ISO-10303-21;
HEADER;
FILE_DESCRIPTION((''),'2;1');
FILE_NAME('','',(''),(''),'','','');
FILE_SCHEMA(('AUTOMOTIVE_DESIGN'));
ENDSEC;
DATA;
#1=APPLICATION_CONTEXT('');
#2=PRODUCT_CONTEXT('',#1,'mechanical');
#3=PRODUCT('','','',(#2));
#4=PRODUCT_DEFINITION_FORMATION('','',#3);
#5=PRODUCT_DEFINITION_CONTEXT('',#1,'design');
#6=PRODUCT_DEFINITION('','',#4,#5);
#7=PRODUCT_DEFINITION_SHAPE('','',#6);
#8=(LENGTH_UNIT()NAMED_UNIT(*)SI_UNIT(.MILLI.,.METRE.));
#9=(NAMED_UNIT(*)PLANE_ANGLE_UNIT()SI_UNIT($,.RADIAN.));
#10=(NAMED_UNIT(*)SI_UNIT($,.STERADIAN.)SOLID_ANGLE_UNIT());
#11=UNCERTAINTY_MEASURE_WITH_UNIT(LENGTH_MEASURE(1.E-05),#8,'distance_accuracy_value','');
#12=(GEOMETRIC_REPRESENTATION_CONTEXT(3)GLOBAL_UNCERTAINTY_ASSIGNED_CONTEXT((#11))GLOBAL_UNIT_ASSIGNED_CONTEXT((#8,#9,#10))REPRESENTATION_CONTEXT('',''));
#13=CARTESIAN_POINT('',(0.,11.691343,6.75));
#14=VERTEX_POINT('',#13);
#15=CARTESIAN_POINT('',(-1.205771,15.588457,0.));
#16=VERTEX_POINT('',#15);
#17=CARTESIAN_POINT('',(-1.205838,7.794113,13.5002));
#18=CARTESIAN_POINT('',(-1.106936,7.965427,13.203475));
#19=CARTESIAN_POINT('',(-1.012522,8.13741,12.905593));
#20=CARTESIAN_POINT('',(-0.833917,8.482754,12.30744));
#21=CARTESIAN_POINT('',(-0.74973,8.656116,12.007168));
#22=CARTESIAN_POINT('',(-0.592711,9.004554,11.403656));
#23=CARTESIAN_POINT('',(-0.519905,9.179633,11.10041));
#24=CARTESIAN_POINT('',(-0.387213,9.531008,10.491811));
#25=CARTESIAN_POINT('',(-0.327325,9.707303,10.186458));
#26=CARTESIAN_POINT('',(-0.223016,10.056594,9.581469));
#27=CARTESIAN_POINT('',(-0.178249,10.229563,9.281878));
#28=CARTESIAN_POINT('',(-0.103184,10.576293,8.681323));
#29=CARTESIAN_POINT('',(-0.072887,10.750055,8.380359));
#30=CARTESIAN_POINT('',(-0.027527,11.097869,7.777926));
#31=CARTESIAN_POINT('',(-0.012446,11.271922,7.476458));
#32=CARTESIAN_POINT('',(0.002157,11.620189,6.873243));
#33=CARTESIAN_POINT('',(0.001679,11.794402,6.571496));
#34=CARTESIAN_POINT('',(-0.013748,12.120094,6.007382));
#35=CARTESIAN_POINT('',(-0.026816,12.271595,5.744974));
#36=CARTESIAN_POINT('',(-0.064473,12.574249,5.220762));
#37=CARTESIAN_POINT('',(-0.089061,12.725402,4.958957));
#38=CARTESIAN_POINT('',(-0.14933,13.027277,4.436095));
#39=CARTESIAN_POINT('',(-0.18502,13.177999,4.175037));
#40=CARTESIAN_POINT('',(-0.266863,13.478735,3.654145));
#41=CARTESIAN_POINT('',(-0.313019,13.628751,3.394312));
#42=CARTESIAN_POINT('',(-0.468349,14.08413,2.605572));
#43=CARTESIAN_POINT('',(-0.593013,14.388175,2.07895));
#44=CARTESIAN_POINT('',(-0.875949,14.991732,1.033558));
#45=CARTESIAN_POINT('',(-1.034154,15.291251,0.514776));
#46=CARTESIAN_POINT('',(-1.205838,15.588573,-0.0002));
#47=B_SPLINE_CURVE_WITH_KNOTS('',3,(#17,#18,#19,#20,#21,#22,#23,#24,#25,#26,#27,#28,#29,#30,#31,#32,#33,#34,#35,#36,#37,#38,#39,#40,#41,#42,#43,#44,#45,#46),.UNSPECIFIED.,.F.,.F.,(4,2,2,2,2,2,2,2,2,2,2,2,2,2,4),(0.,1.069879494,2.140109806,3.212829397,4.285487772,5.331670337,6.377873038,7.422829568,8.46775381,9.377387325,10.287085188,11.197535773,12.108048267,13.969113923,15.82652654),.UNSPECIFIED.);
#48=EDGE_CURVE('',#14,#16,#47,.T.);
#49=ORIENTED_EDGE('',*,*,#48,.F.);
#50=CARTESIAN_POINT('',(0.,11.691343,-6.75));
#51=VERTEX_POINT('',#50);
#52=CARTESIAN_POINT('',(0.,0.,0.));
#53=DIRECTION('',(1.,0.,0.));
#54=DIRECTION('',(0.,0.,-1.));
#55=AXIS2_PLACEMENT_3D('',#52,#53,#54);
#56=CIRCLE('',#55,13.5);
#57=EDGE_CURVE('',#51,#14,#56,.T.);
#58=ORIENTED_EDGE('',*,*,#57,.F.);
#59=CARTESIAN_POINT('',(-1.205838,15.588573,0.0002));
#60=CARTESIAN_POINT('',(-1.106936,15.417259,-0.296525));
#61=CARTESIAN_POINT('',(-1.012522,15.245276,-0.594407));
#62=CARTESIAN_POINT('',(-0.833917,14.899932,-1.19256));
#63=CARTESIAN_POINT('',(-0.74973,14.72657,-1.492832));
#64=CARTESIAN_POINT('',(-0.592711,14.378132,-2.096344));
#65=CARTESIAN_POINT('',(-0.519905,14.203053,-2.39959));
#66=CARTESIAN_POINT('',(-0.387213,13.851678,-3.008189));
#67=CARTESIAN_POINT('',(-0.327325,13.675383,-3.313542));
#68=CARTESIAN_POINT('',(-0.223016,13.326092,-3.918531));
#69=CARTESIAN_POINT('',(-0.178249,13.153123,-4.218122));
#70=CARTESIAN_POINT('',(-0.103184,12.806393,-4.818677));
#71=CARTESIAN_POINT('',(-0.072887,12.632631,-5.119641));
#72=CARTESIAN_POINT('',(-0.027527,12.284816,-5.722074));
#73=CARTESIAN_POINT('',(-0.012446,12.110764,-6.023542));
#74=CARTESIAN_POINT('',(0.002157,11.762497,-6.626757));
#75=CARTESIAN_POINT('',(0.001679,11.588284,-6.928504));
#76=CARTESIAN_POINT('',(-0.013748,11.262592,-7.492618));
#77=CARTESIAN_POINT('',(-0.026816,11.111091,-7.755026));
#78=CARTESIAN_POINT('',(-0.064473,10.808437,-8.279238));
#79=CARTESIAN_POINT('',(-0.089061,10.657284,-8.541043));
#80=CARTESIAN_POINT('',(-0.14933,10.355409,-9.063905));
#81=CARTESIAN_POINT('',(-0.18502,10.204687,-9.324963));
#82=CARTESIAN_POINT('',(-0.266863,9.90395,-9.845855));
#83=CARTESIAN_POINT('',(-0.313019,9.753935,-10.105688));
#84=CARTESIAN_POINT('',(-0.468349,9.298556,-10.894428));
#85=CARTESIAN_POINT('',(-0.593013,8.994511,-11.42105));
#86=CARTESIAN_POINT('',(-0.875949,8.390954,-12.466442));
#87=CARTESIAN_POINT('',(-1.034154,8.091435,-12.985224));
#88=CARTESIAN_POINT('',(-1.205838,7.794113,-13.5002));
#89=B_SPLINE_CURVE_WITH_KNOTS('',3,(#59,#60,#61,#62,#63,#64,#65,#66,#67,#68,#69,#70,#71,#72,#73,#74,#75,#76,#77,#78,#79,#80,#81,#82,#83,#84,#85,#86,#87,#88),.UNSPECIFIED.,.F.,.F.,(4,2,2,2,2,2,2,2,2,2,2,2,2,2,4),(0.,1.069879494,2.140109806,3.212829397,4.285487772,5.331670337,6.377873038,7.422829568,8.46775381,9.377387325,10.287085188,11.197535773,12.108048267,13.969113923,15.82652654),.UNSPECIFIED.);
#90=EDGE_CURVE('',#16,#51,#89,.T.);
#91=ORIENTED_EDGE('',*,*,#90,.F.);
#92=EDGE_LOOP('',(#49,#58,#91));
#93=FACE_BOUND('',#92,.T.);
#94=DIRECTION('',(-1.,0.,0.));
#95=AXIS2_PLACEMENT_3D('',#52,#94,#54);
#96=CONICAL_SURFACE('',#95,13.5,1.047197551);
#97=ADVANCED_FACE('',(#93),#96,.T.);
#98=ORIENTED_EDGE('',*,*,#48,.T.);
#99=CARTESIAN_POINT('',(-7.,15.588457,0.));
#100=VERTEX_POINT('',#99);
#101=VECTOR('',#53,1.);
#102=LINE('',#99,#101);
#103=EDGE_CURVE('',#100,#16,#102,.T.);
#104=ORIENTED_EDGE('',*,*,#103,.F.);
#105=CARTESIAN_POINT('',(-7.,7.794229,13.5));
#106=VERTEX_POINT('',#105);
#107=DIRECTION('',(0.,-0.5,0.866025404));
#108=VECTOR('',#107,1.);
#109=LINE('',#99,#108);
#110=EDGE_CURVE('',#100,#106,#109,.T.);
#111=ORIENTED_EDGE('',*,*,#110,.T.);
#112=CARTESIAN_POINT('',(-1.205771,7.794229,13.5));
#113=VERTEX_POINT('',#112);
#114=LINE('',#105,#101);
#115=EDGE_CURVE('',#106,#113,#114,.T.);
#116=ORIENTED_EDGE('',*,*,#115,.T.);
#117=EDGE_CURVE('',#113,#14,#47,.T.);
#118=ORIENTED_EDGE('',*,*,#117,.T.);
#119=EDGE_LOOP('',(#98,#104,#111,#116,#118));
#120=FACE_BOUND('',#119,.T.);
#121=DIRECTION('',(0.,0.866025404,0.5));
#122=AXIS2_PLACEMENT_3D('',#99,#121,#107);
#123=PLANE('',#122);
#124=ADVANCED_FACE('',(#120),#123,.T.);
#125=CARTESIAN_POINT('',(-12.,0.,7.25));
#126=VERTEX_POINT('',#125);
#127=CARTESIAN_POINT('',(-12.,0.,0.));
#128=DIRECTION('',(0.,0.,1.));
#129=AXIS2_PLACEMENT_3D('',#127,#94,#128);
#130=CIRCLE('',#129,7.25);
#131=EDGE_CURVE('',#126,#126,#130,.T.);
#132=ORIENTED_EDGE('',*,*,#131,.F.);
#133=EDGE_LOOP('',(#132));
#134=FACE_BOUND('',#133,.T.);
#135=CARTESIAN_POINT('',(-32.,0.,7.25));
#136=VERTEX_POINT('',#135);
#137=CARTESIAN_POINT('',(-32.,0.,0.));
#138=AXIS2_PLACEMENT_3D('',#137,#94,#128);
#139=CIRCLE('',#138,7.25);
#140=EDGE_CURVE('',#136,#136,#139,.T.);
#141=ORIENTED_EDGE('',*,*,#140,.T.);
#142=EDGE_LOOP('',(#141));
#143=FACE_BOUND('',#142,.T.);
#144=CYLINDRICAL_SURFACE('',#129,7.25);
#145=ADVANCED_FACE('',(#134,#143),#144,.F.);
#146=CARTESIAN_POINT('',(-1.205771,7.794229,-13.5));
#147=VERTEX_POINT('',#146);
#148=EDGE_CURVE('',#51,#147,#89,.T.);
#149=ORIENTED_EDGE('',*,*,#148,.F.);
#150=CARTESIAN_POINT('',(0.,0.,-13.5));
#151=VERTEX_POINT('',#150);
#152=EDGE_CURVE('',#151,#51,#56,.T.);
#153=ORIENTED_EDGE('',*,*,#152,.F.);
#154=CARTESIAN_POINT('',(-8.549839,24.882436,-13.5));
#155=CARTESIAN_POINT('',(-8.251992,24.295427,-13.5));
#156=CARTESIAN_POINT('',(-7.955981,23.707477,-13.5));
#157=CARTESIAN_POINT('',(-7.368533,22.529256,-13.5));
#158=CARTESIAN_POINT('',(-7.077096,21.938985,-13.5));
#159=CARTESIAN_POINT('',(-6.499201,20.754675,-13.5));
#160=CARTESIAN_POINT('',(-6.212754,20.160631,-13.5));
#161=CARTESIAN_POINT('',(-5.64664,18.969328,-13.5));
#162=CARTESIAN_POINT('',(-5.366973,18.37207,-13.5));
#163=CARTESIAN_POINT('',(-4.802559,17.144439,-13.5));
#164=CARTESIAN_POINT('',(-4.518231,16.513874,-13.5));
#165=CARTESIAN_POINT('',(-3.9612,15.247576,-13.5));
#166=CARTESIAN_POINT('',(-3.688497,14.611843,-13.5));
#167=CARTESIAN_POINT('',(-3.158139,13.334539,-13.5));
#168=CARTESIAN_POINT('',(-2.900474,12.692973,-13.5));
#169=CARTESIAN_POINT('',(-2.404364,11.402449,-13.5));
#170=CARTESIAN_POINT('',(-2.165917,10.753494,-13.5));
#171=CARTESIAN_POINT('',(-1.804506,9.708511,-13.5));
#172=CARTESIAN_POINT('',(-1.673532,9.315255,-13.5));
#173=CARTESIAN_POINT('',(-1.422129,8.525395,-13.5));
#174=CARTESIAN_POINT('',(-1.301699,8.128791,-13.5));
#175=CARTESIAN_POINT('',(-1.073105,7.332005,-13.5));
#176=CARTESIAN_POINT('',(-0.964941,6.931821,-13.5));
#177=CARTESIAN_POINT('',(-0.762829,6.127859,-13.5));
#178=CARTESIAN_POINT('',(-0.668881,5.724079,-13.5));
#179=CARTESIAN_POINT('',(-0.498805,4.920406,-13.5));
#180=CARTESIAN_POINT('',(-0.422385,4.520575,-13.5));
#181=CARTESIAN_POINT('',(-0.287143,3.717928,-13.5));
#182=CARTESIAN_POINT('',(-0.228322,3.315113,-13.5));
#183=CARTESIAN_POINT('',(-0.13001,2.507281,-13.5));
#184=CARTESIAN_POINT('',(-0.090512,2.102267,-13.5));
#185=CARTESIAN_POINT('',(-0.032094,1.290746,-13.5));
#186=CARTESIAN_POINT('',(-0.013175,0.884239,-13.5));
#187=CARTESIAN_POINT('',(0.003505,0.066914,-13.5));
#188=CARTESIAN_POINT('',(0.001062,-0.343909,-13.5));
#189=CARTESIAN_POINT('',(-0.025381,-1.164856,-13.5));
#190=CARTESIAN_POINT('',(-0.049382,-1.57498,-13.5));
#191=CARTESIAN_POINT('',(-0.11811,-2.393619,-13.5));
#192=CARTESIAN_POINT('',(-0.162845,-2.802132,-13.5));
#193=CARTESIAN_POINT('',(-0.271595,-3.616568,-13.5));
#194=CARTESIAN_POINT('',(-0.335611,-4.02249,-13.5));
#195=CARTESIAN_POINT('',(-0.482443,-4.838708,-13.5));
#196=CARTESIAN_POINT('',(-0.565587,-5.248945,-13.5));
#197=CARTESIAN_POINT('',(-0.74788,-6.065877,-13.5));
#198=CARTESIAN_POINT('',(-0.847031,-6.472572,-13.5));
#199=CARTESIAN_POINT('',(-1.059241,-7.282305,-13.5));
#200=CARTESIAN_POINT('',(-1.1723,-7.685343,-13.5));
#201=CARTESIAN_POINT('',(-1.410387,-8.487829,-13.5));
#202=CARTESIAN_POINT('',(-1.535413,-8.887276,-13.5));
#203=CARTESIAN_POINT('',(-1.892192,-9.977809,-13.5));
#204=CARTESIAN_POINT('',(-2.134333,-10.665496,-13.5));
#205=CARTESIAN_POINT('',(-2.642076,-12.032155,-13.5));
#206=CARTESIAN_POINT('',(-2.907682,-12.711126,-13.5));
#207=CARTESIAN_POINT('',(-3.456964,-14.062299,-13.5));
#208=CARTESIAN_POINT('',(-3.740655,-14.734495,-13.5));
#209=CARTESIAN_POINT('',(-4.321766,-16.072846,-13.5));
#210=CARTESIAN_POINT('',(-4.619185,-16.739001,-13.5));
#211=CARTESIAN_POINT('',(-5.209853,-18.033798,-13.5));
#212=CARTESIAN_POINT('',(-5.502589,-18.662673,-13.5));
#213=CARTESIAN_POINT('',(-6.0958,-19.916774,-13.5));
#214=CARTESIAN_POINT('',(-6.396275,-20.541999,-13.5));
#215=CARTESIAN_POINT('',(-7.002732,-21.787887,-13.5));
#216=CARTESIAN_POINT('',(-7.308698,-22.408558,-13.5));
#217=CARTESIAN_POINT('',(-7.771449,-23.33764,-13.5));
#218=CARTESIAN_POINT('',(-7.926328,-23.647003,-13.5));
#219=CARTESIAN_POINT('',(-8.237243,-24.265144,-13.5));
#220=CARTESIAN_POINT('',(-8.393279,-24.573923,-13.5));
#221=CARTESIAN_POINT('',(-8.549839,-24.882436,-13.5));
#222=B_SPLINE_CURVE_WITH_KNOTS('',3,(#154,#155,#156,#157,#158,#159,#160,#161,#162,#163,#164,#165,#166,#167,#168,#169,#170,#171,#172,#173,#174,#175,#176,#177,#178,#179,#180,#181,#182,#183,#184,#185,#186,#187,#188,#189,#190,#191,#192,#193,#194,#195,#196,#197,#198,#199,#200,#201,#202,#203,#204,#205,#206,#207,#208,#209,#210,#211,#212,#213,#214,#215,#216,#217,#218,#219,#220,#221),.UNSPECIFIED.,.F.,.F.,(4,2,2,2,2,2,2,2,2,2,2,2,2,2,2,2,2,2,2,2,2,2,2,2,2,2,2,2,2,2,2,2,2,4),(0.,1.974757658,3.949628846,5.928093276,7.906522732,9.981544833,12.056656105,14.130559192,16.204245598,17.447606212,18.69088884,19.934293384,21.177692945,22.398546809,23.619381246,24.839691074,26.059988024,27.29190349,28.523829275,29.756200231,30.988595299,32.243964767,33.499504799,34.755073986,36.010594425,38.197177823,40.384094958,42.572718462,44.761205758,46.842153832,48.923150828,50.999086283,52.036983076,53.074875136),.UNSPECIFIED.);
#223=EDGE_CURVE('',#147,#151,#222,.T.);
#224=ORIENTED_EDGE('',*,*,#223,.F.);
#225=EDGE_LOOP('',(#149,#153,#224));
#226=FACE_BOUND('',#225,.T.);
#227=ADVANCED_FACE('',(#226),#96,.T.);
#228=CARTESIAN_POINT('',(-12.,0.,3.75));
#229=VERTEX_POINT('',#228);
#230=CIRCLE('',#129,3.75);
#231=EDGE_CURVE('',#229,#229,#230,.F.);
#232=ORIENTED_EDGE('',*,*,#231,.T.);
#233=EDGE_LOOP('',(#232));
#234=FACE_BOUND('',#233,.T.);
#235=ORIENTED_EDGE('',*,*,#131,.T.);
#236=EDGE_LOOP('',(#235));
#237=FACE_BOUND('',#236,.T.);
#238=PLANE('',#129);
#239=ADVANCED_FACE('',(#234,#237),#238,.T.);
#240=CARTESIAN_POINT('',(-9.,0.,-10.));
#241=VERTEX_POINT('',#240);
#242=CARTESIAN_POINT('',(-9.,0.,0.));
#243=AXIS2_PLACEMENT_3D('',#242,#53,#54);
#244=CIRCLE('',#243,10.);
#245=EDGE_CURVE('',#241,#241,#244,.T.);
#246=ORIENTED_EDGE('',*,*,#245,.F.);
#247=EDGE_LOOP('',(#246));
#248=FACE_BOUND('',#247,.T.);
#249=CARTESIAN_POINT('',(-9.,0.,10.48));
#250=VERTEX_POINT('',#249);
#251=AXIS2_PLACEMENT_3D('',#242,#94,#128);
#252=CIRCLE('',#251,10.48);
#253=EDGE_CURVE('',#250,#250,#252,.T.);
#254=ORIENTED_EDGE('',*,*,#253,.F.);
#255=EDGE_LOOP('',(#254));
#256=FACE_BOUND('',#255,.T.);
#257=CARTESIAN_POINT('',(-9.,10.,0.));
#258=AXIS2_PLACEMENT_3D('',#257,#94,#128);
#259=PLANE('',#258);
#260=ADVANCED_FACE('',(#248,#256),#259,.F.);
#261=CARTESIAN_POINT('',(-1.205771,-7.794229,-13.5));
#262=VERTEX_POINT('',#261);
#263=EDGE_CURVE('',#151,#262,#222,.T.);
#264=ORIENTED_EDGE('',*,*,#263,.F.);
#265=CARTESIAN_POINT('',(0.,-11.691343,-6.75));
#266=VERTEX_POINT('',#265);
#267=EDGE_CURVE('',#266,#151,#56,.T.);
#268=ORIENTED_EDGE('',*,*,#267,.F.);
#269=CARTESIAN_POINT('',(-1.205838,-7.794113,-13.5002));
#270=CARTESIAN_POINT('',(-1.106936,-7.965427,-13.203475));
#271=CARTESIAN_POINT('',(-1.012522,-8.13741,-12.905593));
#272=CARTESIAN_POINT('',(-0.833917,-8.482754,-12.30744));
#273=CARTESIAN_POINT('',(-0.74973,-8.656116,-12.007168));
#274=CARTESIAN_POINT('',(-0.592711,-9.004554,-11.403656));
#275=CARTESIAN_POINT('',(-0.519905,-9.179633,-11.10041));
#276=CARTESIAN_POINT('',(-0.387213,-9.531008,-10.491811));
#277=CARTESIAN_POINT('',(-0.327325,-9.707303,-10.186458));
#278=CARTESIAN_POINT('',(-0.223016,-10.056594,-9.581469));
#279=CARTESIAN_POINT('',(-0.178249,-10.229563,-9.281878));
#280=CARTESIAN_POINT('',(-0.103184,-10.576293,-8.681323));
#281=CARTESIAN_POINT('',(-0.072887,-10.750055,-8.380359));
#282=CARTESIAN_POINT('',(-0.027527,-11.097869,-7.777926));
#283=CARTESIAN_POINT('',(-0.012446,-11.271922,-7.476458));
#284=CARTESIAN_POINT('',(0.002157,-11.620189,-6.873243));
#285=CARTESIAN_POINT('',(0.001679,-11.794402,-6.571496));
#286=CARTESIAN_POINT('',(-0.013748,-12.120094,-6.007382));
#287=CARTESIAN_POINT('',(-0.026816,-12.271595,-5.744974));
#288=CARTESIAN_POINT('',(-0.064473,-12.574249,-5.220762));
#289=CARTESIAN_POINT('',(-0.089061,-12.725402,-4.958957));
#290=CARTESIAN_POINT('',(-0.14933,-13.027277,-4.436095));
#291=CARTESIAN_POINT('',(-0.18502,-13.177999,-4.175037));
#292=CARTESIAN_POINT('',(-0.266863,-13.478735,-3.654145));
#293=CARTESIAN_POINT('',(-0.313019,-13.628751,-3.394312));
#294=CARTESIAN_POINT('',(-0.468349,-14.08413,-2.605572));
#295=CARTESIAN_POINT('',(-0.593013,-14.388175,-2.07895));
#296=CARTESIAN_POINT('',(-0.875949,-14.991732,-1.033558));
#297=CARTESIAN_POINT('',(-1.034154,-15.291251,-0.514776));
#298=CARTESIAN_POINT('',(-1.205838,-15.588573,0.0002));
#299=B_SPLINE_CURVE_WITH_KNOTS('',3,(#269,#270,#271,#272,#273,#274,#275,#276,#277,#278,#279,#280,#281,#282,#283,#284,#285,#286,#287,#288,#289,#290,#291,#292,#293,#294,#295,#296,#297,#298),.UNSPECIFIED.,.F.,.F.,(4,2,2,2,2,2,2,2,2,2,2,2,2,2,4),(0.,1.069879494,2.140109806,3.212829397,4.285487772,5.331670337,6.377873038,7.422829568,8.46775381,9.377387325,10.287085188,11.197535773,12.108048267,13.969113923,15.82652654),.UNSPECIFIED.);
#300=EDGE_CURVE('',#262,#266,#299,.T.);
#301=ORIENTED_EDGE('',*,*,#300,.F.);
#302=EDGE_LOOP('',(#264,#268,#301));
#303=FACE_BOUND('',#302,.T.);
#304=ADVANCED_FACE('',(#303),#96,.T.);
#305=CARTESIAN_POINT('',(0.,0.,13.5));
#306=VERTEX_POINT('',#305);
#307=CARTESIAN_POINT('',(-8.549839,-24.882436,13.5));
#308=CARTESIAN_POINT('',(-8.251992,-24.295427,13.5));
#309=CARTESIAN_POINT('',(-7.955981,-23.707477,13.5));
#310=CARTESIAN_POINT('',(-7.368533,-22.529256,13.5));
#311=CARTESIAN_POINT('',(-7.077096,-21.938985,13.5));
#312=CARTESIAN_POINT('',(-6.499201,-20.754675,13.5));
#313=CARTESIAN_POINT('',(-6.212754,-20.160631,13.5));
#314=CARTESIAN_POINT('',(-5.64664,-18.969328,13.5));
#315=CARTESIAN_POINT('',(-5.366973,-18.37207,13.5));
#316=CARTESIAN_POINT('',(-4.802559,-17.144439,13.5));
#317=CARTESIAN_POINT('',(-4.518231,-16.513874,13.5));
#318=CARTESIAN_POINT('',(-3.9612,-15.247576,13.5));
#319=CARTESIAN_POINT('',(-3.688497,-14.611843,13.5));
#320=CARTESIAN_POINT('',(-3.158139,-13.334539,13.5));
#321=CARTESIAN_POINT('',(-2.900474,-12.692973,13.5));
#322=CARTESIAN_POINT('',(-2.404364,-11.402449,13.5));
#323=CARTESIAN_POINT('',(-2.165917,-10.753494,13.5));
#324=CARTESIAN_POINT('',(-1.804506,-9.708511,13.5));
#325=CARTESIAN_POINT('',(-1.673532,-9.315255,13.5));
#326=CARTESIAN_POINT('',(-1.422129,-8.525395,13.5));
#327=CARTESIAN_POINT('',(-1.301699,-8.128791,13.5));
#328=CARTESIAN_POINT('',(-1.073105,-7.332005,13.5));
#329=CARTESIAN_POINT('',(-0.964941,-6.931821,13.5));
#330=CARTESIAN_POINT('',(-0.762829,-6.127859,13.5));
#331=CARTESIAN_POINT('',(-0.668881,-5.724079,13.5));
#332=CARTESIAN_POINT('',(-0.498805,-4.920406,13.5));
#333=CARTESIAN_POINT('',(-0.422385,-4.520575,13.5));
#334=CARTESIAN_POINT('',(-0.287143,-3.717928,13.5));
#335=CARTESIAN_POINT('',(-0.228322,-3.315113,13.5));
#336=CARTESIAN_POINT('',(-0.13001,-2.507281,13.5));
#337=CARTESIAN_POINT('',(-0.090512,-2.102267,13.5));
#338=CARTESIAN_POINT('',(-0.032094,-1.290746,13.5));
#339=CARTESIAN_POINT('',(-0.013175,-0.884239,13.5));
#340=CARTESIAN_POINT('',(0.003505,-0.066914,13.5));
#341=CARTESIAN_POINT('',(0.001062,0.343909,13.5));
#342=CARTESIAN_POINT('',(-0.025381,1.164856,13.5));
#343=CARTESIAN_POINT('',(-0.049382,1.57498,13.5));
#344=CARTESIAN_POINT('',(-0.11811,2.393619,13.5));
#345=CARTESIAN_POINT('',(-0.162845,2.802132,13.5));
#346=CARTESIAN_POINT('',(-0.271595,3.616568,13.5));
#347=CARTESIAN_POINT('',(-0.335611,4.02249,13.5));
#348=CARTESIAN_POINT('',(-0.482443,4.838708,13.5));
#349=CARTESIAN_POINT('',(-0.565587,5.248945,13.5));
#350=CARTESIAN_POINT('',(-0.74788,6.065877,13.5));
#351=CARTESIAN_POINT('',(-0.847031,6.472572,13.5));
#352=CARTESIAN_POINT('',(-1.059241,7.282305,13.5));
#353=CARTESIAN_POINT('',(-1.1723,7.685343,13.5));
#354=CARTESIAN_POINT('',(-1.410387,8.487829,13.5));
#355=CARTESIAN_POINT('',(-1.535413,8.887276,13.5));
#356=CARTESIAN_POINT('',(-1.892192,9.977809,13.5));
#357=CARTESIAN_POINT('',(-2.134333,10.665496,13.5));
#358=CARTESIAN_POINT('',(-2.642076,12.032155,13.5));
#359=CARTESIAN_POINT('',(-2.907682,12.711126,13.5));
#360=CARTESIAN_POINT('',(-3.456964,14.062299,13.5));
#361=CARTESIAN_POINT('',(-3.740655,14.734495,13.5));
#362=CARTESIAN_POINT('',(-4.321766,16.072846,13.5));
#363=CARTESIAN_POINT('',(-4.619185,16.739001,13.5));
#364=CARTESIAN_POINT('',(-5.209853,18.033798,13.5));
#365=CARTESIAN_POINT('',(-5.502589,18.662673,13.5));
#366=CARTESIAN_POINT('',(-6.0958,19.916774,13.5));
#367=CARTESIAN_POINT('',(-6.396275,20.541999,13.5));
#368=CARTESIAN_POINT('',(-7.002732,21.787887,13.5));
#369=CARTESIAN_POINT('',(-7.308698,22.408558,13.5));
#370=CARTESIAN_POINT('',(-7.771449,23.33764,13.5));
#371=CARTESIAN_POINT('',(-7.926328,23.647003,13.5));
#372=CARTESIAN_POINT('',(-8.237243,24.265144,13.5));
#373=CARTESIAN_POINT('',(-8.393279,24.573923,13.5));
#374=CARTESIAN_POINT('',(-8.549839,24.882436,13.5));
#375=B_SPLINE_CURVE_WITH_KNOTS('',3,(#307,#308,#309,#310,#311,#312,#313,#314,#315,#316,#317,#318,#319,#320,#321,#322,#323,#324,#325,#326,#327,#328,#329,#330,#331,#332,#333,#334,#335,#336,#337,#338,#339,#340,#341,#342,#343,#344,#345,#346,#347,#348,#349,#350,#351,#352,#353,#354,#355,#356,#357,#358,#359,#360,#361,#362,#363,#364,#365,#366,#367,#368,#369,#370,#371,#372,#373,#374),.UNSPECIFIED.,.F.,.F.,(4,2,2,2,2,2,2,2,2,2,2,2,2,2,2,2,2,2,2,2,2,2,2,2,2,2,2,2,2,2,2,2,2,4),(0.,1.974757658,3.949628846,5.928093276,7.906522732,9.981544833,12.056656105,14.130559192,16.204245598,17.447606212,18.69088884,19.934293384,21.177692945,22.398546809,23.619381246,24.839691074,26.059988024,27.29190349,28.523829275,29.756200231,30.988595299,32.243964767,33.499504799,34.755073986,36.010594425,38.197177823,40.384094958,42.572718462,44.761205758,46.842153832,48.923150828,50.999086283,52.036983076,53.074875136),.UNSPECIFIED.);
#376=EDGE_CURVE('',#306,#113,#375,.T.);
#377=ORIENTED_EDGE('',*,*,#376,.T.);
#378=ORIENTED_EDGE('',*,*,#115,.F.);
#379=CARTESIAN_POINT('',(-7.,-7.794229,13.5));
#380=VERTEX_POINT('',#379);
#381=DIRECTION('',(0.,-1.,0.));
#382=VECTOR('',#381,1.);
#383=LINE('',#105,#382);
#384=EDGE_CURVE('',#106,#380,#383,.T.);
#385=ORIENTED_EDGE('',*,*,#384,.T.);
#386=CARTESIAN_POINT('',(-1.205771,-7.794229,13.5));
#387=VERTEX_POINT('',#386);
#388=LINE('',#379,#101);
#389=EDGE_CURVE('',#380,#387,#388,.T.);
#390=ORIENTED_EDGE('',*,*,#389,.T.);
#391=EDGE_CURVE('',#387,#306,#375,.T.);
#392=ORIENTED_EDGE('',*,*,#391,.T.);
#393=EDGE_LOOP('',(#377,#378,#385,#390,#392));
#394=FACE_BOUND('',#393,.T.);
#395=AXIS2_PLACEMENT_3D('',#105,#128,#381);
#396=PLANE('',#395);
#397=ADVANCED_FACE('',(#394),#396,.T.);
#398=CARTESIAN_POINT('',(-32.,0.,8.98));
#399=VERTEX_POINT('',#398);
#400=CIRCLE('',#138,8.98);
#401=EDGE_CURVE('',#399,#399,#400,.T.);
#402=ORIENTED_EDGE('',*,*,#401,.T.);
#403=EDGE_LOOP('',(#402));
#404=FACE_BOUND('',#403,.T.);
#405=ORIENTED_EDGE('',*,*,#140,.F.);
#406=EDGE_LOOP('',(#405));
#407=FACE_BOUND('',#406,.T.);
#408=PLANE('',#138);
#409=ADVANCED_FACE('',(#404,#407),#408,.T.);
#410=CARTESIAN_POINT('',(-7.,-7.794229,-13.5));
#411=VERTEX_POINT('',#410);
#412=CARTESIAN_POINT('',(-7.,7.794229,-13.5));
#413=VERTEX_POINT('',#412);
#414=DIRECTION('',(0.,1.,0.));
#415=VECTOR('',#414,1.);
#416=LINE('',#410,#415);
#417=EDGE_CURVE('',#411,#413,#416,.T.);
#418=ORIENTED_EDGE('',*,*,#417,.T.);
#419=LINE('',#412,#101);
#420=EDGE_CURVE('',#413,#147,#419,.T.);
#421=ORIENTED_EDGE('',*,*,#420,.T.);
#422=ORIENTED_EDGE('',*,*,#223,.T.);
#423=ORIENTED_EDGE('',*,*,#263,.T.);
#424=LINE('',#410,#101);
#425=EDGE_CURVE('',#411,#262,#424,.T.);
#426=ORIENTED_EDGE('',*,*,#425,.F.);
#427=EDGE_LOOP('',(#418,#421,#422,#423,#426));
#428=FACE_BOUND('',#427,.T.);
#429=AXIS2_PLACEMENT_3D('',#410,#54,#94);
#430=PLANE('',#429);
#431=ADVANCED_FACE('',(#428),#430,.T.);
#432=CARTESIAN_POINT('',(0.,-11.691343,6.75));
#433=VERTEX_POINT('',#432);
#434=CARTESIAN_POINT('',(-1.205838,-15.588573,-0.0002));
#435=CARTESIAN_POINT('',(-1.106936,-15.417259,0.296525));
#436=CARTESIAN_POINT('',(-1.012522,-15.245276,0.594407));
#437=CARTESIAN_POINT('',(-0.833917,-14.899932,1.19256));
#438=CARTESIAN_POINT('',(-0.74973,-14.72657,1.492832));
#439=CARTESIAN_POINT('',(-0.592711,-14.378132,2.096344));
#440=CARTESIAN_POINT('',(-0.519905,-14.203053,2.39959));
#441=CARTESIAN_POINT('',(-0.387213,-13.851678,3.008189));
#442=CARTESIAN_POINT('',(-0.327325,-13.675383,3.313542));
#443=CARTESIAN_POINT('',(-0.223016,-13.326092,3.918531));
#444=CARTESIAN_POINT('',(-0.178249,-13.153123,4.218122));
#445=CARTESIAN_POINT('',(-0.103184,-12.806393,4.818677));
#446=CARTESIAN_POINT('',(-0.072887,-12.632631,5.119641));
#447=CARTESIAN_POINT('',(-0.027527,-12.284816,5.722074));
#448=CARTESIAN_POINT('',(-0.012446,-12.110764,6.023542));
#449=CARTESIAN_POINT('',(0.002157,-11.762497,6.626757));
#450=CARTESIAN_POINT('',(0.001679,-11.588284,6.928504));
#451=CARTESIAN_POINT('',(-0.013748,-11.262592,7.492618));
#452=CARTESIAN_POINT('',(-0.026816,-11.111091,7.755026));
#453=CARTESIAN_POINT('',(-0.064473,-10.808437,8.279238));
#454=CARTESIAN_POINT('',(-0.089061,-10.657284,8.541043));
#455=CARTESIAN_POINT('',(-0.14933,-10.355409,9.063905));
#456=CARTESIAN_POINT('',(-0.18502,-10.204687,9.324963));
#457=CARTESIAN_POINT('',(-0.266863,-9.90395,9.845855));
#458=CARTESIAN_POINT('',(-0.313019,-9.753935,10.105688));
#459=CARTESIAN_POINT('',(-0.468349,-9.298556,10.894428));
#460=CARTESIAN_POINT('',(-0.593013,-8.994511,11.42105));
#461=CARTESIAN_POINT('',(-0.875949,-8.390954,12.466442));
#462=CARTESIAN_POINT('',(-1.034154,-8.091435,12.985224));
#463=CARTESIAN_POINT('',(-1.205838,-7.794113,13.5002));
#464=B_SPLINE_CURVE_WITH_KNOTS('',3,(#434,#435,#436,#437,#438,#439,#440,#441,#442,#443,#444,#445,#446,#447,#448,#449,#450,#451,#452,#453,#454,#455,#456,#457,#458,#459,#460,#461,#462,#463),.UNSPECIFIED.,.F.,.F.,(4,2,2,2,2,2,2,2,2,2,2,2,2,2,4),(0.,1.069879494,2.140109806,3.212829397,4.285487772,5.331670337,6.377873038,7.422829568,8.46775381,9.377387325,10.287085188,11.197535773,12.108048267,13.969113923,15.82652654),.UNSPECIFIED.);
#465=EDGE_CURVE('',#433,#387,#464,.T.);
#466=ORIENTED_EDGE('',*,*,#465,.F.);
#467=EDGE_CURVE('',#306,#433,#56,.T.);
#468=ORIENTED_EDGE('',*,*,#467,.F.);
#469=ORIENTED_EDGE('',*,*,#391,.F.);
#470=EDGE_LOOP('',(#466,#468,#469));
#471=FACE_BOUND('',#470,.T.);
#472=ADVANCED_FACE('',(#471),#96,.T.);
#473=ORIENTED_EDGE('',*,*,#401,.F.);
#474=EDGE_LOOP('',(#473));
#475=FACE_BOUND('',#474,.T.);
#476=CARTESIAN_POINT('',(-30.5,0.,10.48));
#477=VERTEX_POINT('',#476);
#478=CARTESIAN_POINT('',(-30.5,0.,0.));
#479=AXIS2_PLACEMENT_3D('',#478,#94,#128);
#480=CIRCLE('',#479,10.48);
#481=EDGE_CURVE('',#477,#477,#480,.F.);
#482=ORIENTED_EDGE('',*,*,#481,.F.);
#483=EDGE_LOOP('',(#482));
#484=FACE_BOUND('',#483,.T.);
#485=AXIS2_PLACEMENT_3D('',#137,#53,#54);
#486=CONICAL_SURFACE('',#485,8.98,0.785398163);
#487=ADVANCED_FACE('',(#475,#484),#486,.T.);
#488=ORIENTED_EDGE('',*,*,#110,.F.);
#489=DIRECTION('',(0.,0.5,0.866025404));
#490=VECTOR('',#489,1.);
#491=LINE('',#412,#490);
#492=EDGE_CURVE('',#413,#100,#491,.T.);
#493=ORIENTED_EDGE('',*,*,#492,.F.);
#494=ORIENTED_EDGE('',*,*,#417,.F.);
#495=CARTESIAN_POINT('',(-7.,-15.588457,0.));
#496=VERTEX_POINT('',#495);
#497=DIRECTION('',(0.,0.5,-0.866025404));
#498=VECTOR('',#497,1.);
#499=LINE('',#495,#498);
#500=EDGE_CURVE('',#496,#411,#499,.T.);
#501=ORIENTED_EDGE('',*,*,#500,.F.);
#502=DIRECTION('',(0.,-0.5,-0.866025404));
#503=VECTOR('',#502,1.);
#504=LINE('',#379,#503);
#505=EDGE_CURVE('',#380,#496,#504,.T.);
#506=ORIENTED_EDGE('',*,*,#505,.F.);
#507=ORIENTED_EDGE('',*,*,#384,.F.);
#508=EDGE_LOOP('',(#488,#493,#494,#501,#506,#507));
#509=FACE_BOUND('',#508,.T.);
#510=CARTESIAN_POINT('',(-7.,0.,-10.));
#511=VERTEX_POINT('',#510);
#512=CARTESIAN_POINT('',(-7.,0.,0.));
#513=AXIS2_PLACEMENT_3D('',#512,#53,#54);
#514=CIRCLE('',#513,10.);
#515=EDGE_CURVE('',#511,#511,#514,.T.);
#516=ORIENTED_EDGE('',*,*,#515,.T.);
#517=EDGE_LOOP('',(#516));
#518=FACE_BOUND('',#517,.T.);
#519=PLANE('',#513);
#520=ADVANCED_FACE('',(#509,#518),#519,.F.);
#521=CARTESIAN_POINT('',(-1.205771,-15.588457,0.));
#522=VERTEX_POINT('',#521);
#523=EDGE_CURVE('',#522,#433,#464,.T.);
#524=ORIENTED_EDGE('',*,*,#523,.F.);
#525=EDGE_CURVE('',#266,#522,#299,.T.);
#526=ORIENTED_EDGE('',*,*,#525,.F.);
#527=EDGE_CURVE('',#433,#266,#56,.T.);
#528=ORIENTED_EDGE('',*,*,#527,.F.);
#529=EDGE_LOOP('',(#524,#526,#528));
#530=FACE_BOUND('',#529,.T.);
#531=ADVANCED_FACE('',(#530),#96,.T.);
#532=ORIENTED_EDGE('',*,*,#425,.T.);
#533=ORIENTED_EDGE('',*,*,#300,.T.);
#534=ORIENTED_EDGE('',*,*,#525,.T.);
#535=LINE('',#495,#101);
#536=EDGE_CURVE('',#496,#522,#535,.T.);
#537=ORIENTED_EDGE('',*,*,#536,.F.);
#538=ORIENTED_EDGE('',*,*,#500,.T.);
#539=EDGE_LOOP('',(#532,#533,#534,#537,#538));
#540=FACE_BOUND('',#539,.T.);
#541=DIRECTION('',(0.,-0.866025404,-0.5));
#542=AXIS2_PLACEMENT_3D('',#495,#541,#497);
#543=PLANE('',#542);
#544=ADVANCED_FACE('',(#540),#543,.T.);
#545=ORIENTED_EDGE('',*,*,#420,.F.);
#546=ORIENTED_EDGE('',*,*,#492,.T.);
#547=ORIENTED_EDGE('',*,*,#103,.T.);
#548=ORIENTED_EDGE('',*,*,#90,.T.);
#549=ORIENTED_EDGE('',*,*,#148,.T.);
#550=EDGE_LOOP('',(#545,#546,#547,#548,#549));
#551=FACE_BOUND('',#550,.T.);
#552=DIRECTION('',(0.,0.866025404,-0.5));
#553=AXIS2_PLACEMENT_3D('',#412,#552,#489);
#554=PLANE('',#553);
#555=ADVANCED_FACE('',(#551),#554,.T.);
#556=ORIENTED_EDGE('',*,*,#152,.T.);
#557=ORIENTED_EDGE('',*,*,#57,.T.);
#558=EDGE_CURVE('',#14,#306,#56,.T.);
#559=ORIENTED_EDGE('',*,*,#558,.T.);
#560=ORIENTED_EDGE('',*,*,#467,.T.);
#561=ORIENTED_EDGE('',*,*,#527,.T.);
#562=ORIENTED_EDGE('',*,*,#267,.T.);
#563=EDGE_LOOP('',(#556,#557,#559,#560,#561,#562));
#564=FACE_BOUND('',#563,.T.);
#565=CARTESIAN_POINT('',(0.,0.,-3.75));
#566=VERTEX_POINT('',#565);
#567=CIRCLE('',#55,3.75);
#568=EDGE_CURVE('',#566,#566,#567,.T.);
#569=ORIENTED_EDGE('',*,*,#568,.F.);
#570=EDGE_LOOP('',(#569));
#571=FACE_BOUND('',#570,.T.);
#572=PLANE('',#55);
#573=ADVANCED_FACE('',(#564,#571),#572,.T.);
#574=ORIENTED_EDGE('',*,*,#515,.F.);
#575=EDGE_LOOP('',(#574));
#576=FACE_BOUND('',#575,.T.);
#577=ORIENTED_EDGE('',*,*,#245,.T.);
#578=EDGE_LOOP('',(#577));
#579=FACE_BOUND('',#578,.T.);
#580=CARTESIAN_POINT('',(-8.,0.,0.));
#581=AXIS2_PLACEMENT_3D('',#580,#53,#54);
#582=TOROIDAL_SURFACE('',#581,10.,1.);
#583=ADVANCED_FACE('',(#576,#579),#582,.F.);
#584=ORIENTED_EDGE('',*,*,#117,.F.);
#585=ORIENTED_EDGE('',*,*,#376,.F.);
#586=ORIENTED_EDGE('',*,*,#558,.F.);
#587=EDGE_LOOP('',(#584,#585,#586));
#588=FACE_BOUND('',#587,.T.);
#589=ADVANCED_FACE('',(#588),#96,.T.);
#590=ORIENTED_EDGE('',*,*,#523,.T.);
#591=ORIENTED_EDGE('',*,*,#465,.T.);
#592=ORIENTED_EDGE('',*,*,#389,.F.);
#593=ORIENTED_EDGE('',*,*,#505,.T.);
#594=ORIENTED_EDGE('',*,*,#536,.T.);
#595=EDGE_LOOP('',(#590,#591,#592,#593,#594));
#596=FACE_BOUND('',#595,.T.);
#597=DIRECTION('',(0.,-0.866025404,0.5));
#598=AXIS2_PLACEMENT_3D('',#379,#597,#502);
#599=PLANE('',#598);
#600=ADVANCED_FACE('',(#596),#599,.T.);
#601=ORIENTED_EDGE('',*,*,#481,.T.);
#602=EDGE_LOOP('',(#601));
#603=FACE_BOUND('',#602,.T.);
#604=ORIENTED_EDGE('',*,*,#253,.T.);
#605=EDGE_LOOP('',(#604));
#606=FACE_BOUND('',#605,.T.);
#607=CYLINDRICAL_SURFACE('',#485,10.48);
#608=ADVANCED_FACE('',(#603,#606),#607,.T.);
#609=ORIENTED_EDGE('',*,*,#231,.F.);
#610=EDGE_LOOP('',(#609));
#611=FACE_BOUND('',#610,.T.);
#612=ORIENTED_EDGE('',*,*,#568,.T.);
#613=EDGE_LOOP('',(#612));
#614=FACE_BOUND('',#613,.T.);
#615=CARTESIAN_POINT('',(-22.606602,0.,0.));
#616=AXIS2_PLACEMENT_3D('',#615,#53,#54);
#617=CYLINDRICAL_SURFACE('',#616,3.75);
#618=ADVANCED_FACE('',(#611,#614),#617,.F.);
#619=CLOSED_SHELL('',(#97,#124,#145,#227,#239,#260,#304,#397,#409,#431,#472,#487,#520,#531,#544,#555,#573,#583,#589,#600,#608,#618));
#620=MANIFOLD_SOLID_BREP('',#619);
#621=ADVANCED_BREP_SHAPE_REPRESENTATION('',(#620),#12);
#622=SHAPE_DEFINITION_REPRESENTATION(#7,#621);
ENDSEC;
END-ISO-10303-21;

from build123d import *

# Parameters (mm, degrees)
DODANIE_WYCI_GNI_CIE1_DEPTH = 7
SZKIC2_OUTSIDE_W            = 61.616
SZKIC2_OUTSIDE_H            = 65.792
SZKIC2_OUTSIDE_R            = 13.5
WYTNIJ_WYCI_GNI_CIE1_DEPTH  = 7
WYTNIJ_WYCI_GNI_CIE1_TAPER  = 60
SZKIC3_R                    = 10.48
DODANIE_WYCI_GNI_CIE2_DEPTH = 25
SZKIC4_R                    = 7.25
WYTNIJ_WYCI_GNI_CIE2_DEPTH  = 20
SZKIC5_R                    = 3.75
WYTNIJ_WYCI_GNI_CIE3_DEPTH  = 12
SFAZOWANIE1_SIZE            = 1.5


with BuildPart() as part:
    # Szkic1 → Dodanie-wyciągnięcie1 (new body)
    with BuildSketch(Plane(origin=(0, 0, 0), x_dir=(0, 0, -1), z_dir=(1, 0, 0))):
        Polygon((13.5, 7.794228634), (0, 15.588457268), (-13.5, 7.794228634), (-13.5, -7.794228634), (0, -15.588457268), (13.5, -7.794228634), align=None)
    extrude(amount=-DODANIE_WYCI_GNI_CIE1_DEPTH)

    # Szkic2 outside → Wytnij-wyciągnięcie1 (cut)
    with BuildSketch(Plane(origin=(0, 0, 0), x_dir=(0, 0, -1), z_dir=(1, 0, 0))):
        Rectangle(SZKIC2_OUTSIDE_W, SZKIC2_OUTSIDE_H)
        Circle(SZKIC2_OUTSIDE_R, mode=Mode.SUBTRACT)
    extrude(amount=-WYTNIJ_WYCI_GNI_CIE1_DEPTH, taper=WYTNIJ_WYCI_GNI_CIE1_TAPER, mode=Mode.SUBTRACT)

    # Szkic3 → Dodanie-wyciągnięcie2 (add)
    with BuildSketch(Plane.ZY.offset(7)):
        Circle(SZKIC3_R)
    extrude(amount=DODANIE_WYCI_GNI_CIE2_DEPTH)

    # Szkic4 → Wytnij-wyciągnięcie2 (cut)
    with BuildSketch(Plane.ZY.offset(32)):
        Circle(SZKIC4_R)
    extrude(amount=-WYTNIJ_WYCI_GNI_CIE2_DEPTH, mode=Mode.SUBTRACT)

    # Szkic5 → Wytnij-wyciągnięcie3 (cut)
    with BuildSketch(Plane(origin=(0, 0, 0), x_dir=(0, 0, -1), z_dir=(1, 0, 0))):
        Circle(SZKIC5_R)
    extrude(amount=-WYTNIJ_WYCI_GNI_CIE3_DEPTH, mode=Mode.SUBTRACT)

    # Sfazowanie1
    sfazowanie1_edges = [part.edges().sort_by_distance(p)[0] for p in [
        (-32, 0, -10.48),
    ]]
    chamfer(sfazowanie1_edges, length=SFAZOWANIE1_SIZE)

    # Szkic6 → Wycięcie-obrót1 (revolve, cut)
    with BuildSketch(Plane.XY):
        with BuildLine():
            Line((-9, 10), (-9, 11.5))
            Line((-9, 11.5), (-7, 11.5))
            Line((-7, 11.5), (-7, 10))
            ThreePointArc((-7, 10), (-8, 9), (-9, 10))
        make_face()
    revolve(axis=Axis((0, 0, 0), (-1, 0, 0)), mode=Mode.SUBTRACT)


solid = part.part
